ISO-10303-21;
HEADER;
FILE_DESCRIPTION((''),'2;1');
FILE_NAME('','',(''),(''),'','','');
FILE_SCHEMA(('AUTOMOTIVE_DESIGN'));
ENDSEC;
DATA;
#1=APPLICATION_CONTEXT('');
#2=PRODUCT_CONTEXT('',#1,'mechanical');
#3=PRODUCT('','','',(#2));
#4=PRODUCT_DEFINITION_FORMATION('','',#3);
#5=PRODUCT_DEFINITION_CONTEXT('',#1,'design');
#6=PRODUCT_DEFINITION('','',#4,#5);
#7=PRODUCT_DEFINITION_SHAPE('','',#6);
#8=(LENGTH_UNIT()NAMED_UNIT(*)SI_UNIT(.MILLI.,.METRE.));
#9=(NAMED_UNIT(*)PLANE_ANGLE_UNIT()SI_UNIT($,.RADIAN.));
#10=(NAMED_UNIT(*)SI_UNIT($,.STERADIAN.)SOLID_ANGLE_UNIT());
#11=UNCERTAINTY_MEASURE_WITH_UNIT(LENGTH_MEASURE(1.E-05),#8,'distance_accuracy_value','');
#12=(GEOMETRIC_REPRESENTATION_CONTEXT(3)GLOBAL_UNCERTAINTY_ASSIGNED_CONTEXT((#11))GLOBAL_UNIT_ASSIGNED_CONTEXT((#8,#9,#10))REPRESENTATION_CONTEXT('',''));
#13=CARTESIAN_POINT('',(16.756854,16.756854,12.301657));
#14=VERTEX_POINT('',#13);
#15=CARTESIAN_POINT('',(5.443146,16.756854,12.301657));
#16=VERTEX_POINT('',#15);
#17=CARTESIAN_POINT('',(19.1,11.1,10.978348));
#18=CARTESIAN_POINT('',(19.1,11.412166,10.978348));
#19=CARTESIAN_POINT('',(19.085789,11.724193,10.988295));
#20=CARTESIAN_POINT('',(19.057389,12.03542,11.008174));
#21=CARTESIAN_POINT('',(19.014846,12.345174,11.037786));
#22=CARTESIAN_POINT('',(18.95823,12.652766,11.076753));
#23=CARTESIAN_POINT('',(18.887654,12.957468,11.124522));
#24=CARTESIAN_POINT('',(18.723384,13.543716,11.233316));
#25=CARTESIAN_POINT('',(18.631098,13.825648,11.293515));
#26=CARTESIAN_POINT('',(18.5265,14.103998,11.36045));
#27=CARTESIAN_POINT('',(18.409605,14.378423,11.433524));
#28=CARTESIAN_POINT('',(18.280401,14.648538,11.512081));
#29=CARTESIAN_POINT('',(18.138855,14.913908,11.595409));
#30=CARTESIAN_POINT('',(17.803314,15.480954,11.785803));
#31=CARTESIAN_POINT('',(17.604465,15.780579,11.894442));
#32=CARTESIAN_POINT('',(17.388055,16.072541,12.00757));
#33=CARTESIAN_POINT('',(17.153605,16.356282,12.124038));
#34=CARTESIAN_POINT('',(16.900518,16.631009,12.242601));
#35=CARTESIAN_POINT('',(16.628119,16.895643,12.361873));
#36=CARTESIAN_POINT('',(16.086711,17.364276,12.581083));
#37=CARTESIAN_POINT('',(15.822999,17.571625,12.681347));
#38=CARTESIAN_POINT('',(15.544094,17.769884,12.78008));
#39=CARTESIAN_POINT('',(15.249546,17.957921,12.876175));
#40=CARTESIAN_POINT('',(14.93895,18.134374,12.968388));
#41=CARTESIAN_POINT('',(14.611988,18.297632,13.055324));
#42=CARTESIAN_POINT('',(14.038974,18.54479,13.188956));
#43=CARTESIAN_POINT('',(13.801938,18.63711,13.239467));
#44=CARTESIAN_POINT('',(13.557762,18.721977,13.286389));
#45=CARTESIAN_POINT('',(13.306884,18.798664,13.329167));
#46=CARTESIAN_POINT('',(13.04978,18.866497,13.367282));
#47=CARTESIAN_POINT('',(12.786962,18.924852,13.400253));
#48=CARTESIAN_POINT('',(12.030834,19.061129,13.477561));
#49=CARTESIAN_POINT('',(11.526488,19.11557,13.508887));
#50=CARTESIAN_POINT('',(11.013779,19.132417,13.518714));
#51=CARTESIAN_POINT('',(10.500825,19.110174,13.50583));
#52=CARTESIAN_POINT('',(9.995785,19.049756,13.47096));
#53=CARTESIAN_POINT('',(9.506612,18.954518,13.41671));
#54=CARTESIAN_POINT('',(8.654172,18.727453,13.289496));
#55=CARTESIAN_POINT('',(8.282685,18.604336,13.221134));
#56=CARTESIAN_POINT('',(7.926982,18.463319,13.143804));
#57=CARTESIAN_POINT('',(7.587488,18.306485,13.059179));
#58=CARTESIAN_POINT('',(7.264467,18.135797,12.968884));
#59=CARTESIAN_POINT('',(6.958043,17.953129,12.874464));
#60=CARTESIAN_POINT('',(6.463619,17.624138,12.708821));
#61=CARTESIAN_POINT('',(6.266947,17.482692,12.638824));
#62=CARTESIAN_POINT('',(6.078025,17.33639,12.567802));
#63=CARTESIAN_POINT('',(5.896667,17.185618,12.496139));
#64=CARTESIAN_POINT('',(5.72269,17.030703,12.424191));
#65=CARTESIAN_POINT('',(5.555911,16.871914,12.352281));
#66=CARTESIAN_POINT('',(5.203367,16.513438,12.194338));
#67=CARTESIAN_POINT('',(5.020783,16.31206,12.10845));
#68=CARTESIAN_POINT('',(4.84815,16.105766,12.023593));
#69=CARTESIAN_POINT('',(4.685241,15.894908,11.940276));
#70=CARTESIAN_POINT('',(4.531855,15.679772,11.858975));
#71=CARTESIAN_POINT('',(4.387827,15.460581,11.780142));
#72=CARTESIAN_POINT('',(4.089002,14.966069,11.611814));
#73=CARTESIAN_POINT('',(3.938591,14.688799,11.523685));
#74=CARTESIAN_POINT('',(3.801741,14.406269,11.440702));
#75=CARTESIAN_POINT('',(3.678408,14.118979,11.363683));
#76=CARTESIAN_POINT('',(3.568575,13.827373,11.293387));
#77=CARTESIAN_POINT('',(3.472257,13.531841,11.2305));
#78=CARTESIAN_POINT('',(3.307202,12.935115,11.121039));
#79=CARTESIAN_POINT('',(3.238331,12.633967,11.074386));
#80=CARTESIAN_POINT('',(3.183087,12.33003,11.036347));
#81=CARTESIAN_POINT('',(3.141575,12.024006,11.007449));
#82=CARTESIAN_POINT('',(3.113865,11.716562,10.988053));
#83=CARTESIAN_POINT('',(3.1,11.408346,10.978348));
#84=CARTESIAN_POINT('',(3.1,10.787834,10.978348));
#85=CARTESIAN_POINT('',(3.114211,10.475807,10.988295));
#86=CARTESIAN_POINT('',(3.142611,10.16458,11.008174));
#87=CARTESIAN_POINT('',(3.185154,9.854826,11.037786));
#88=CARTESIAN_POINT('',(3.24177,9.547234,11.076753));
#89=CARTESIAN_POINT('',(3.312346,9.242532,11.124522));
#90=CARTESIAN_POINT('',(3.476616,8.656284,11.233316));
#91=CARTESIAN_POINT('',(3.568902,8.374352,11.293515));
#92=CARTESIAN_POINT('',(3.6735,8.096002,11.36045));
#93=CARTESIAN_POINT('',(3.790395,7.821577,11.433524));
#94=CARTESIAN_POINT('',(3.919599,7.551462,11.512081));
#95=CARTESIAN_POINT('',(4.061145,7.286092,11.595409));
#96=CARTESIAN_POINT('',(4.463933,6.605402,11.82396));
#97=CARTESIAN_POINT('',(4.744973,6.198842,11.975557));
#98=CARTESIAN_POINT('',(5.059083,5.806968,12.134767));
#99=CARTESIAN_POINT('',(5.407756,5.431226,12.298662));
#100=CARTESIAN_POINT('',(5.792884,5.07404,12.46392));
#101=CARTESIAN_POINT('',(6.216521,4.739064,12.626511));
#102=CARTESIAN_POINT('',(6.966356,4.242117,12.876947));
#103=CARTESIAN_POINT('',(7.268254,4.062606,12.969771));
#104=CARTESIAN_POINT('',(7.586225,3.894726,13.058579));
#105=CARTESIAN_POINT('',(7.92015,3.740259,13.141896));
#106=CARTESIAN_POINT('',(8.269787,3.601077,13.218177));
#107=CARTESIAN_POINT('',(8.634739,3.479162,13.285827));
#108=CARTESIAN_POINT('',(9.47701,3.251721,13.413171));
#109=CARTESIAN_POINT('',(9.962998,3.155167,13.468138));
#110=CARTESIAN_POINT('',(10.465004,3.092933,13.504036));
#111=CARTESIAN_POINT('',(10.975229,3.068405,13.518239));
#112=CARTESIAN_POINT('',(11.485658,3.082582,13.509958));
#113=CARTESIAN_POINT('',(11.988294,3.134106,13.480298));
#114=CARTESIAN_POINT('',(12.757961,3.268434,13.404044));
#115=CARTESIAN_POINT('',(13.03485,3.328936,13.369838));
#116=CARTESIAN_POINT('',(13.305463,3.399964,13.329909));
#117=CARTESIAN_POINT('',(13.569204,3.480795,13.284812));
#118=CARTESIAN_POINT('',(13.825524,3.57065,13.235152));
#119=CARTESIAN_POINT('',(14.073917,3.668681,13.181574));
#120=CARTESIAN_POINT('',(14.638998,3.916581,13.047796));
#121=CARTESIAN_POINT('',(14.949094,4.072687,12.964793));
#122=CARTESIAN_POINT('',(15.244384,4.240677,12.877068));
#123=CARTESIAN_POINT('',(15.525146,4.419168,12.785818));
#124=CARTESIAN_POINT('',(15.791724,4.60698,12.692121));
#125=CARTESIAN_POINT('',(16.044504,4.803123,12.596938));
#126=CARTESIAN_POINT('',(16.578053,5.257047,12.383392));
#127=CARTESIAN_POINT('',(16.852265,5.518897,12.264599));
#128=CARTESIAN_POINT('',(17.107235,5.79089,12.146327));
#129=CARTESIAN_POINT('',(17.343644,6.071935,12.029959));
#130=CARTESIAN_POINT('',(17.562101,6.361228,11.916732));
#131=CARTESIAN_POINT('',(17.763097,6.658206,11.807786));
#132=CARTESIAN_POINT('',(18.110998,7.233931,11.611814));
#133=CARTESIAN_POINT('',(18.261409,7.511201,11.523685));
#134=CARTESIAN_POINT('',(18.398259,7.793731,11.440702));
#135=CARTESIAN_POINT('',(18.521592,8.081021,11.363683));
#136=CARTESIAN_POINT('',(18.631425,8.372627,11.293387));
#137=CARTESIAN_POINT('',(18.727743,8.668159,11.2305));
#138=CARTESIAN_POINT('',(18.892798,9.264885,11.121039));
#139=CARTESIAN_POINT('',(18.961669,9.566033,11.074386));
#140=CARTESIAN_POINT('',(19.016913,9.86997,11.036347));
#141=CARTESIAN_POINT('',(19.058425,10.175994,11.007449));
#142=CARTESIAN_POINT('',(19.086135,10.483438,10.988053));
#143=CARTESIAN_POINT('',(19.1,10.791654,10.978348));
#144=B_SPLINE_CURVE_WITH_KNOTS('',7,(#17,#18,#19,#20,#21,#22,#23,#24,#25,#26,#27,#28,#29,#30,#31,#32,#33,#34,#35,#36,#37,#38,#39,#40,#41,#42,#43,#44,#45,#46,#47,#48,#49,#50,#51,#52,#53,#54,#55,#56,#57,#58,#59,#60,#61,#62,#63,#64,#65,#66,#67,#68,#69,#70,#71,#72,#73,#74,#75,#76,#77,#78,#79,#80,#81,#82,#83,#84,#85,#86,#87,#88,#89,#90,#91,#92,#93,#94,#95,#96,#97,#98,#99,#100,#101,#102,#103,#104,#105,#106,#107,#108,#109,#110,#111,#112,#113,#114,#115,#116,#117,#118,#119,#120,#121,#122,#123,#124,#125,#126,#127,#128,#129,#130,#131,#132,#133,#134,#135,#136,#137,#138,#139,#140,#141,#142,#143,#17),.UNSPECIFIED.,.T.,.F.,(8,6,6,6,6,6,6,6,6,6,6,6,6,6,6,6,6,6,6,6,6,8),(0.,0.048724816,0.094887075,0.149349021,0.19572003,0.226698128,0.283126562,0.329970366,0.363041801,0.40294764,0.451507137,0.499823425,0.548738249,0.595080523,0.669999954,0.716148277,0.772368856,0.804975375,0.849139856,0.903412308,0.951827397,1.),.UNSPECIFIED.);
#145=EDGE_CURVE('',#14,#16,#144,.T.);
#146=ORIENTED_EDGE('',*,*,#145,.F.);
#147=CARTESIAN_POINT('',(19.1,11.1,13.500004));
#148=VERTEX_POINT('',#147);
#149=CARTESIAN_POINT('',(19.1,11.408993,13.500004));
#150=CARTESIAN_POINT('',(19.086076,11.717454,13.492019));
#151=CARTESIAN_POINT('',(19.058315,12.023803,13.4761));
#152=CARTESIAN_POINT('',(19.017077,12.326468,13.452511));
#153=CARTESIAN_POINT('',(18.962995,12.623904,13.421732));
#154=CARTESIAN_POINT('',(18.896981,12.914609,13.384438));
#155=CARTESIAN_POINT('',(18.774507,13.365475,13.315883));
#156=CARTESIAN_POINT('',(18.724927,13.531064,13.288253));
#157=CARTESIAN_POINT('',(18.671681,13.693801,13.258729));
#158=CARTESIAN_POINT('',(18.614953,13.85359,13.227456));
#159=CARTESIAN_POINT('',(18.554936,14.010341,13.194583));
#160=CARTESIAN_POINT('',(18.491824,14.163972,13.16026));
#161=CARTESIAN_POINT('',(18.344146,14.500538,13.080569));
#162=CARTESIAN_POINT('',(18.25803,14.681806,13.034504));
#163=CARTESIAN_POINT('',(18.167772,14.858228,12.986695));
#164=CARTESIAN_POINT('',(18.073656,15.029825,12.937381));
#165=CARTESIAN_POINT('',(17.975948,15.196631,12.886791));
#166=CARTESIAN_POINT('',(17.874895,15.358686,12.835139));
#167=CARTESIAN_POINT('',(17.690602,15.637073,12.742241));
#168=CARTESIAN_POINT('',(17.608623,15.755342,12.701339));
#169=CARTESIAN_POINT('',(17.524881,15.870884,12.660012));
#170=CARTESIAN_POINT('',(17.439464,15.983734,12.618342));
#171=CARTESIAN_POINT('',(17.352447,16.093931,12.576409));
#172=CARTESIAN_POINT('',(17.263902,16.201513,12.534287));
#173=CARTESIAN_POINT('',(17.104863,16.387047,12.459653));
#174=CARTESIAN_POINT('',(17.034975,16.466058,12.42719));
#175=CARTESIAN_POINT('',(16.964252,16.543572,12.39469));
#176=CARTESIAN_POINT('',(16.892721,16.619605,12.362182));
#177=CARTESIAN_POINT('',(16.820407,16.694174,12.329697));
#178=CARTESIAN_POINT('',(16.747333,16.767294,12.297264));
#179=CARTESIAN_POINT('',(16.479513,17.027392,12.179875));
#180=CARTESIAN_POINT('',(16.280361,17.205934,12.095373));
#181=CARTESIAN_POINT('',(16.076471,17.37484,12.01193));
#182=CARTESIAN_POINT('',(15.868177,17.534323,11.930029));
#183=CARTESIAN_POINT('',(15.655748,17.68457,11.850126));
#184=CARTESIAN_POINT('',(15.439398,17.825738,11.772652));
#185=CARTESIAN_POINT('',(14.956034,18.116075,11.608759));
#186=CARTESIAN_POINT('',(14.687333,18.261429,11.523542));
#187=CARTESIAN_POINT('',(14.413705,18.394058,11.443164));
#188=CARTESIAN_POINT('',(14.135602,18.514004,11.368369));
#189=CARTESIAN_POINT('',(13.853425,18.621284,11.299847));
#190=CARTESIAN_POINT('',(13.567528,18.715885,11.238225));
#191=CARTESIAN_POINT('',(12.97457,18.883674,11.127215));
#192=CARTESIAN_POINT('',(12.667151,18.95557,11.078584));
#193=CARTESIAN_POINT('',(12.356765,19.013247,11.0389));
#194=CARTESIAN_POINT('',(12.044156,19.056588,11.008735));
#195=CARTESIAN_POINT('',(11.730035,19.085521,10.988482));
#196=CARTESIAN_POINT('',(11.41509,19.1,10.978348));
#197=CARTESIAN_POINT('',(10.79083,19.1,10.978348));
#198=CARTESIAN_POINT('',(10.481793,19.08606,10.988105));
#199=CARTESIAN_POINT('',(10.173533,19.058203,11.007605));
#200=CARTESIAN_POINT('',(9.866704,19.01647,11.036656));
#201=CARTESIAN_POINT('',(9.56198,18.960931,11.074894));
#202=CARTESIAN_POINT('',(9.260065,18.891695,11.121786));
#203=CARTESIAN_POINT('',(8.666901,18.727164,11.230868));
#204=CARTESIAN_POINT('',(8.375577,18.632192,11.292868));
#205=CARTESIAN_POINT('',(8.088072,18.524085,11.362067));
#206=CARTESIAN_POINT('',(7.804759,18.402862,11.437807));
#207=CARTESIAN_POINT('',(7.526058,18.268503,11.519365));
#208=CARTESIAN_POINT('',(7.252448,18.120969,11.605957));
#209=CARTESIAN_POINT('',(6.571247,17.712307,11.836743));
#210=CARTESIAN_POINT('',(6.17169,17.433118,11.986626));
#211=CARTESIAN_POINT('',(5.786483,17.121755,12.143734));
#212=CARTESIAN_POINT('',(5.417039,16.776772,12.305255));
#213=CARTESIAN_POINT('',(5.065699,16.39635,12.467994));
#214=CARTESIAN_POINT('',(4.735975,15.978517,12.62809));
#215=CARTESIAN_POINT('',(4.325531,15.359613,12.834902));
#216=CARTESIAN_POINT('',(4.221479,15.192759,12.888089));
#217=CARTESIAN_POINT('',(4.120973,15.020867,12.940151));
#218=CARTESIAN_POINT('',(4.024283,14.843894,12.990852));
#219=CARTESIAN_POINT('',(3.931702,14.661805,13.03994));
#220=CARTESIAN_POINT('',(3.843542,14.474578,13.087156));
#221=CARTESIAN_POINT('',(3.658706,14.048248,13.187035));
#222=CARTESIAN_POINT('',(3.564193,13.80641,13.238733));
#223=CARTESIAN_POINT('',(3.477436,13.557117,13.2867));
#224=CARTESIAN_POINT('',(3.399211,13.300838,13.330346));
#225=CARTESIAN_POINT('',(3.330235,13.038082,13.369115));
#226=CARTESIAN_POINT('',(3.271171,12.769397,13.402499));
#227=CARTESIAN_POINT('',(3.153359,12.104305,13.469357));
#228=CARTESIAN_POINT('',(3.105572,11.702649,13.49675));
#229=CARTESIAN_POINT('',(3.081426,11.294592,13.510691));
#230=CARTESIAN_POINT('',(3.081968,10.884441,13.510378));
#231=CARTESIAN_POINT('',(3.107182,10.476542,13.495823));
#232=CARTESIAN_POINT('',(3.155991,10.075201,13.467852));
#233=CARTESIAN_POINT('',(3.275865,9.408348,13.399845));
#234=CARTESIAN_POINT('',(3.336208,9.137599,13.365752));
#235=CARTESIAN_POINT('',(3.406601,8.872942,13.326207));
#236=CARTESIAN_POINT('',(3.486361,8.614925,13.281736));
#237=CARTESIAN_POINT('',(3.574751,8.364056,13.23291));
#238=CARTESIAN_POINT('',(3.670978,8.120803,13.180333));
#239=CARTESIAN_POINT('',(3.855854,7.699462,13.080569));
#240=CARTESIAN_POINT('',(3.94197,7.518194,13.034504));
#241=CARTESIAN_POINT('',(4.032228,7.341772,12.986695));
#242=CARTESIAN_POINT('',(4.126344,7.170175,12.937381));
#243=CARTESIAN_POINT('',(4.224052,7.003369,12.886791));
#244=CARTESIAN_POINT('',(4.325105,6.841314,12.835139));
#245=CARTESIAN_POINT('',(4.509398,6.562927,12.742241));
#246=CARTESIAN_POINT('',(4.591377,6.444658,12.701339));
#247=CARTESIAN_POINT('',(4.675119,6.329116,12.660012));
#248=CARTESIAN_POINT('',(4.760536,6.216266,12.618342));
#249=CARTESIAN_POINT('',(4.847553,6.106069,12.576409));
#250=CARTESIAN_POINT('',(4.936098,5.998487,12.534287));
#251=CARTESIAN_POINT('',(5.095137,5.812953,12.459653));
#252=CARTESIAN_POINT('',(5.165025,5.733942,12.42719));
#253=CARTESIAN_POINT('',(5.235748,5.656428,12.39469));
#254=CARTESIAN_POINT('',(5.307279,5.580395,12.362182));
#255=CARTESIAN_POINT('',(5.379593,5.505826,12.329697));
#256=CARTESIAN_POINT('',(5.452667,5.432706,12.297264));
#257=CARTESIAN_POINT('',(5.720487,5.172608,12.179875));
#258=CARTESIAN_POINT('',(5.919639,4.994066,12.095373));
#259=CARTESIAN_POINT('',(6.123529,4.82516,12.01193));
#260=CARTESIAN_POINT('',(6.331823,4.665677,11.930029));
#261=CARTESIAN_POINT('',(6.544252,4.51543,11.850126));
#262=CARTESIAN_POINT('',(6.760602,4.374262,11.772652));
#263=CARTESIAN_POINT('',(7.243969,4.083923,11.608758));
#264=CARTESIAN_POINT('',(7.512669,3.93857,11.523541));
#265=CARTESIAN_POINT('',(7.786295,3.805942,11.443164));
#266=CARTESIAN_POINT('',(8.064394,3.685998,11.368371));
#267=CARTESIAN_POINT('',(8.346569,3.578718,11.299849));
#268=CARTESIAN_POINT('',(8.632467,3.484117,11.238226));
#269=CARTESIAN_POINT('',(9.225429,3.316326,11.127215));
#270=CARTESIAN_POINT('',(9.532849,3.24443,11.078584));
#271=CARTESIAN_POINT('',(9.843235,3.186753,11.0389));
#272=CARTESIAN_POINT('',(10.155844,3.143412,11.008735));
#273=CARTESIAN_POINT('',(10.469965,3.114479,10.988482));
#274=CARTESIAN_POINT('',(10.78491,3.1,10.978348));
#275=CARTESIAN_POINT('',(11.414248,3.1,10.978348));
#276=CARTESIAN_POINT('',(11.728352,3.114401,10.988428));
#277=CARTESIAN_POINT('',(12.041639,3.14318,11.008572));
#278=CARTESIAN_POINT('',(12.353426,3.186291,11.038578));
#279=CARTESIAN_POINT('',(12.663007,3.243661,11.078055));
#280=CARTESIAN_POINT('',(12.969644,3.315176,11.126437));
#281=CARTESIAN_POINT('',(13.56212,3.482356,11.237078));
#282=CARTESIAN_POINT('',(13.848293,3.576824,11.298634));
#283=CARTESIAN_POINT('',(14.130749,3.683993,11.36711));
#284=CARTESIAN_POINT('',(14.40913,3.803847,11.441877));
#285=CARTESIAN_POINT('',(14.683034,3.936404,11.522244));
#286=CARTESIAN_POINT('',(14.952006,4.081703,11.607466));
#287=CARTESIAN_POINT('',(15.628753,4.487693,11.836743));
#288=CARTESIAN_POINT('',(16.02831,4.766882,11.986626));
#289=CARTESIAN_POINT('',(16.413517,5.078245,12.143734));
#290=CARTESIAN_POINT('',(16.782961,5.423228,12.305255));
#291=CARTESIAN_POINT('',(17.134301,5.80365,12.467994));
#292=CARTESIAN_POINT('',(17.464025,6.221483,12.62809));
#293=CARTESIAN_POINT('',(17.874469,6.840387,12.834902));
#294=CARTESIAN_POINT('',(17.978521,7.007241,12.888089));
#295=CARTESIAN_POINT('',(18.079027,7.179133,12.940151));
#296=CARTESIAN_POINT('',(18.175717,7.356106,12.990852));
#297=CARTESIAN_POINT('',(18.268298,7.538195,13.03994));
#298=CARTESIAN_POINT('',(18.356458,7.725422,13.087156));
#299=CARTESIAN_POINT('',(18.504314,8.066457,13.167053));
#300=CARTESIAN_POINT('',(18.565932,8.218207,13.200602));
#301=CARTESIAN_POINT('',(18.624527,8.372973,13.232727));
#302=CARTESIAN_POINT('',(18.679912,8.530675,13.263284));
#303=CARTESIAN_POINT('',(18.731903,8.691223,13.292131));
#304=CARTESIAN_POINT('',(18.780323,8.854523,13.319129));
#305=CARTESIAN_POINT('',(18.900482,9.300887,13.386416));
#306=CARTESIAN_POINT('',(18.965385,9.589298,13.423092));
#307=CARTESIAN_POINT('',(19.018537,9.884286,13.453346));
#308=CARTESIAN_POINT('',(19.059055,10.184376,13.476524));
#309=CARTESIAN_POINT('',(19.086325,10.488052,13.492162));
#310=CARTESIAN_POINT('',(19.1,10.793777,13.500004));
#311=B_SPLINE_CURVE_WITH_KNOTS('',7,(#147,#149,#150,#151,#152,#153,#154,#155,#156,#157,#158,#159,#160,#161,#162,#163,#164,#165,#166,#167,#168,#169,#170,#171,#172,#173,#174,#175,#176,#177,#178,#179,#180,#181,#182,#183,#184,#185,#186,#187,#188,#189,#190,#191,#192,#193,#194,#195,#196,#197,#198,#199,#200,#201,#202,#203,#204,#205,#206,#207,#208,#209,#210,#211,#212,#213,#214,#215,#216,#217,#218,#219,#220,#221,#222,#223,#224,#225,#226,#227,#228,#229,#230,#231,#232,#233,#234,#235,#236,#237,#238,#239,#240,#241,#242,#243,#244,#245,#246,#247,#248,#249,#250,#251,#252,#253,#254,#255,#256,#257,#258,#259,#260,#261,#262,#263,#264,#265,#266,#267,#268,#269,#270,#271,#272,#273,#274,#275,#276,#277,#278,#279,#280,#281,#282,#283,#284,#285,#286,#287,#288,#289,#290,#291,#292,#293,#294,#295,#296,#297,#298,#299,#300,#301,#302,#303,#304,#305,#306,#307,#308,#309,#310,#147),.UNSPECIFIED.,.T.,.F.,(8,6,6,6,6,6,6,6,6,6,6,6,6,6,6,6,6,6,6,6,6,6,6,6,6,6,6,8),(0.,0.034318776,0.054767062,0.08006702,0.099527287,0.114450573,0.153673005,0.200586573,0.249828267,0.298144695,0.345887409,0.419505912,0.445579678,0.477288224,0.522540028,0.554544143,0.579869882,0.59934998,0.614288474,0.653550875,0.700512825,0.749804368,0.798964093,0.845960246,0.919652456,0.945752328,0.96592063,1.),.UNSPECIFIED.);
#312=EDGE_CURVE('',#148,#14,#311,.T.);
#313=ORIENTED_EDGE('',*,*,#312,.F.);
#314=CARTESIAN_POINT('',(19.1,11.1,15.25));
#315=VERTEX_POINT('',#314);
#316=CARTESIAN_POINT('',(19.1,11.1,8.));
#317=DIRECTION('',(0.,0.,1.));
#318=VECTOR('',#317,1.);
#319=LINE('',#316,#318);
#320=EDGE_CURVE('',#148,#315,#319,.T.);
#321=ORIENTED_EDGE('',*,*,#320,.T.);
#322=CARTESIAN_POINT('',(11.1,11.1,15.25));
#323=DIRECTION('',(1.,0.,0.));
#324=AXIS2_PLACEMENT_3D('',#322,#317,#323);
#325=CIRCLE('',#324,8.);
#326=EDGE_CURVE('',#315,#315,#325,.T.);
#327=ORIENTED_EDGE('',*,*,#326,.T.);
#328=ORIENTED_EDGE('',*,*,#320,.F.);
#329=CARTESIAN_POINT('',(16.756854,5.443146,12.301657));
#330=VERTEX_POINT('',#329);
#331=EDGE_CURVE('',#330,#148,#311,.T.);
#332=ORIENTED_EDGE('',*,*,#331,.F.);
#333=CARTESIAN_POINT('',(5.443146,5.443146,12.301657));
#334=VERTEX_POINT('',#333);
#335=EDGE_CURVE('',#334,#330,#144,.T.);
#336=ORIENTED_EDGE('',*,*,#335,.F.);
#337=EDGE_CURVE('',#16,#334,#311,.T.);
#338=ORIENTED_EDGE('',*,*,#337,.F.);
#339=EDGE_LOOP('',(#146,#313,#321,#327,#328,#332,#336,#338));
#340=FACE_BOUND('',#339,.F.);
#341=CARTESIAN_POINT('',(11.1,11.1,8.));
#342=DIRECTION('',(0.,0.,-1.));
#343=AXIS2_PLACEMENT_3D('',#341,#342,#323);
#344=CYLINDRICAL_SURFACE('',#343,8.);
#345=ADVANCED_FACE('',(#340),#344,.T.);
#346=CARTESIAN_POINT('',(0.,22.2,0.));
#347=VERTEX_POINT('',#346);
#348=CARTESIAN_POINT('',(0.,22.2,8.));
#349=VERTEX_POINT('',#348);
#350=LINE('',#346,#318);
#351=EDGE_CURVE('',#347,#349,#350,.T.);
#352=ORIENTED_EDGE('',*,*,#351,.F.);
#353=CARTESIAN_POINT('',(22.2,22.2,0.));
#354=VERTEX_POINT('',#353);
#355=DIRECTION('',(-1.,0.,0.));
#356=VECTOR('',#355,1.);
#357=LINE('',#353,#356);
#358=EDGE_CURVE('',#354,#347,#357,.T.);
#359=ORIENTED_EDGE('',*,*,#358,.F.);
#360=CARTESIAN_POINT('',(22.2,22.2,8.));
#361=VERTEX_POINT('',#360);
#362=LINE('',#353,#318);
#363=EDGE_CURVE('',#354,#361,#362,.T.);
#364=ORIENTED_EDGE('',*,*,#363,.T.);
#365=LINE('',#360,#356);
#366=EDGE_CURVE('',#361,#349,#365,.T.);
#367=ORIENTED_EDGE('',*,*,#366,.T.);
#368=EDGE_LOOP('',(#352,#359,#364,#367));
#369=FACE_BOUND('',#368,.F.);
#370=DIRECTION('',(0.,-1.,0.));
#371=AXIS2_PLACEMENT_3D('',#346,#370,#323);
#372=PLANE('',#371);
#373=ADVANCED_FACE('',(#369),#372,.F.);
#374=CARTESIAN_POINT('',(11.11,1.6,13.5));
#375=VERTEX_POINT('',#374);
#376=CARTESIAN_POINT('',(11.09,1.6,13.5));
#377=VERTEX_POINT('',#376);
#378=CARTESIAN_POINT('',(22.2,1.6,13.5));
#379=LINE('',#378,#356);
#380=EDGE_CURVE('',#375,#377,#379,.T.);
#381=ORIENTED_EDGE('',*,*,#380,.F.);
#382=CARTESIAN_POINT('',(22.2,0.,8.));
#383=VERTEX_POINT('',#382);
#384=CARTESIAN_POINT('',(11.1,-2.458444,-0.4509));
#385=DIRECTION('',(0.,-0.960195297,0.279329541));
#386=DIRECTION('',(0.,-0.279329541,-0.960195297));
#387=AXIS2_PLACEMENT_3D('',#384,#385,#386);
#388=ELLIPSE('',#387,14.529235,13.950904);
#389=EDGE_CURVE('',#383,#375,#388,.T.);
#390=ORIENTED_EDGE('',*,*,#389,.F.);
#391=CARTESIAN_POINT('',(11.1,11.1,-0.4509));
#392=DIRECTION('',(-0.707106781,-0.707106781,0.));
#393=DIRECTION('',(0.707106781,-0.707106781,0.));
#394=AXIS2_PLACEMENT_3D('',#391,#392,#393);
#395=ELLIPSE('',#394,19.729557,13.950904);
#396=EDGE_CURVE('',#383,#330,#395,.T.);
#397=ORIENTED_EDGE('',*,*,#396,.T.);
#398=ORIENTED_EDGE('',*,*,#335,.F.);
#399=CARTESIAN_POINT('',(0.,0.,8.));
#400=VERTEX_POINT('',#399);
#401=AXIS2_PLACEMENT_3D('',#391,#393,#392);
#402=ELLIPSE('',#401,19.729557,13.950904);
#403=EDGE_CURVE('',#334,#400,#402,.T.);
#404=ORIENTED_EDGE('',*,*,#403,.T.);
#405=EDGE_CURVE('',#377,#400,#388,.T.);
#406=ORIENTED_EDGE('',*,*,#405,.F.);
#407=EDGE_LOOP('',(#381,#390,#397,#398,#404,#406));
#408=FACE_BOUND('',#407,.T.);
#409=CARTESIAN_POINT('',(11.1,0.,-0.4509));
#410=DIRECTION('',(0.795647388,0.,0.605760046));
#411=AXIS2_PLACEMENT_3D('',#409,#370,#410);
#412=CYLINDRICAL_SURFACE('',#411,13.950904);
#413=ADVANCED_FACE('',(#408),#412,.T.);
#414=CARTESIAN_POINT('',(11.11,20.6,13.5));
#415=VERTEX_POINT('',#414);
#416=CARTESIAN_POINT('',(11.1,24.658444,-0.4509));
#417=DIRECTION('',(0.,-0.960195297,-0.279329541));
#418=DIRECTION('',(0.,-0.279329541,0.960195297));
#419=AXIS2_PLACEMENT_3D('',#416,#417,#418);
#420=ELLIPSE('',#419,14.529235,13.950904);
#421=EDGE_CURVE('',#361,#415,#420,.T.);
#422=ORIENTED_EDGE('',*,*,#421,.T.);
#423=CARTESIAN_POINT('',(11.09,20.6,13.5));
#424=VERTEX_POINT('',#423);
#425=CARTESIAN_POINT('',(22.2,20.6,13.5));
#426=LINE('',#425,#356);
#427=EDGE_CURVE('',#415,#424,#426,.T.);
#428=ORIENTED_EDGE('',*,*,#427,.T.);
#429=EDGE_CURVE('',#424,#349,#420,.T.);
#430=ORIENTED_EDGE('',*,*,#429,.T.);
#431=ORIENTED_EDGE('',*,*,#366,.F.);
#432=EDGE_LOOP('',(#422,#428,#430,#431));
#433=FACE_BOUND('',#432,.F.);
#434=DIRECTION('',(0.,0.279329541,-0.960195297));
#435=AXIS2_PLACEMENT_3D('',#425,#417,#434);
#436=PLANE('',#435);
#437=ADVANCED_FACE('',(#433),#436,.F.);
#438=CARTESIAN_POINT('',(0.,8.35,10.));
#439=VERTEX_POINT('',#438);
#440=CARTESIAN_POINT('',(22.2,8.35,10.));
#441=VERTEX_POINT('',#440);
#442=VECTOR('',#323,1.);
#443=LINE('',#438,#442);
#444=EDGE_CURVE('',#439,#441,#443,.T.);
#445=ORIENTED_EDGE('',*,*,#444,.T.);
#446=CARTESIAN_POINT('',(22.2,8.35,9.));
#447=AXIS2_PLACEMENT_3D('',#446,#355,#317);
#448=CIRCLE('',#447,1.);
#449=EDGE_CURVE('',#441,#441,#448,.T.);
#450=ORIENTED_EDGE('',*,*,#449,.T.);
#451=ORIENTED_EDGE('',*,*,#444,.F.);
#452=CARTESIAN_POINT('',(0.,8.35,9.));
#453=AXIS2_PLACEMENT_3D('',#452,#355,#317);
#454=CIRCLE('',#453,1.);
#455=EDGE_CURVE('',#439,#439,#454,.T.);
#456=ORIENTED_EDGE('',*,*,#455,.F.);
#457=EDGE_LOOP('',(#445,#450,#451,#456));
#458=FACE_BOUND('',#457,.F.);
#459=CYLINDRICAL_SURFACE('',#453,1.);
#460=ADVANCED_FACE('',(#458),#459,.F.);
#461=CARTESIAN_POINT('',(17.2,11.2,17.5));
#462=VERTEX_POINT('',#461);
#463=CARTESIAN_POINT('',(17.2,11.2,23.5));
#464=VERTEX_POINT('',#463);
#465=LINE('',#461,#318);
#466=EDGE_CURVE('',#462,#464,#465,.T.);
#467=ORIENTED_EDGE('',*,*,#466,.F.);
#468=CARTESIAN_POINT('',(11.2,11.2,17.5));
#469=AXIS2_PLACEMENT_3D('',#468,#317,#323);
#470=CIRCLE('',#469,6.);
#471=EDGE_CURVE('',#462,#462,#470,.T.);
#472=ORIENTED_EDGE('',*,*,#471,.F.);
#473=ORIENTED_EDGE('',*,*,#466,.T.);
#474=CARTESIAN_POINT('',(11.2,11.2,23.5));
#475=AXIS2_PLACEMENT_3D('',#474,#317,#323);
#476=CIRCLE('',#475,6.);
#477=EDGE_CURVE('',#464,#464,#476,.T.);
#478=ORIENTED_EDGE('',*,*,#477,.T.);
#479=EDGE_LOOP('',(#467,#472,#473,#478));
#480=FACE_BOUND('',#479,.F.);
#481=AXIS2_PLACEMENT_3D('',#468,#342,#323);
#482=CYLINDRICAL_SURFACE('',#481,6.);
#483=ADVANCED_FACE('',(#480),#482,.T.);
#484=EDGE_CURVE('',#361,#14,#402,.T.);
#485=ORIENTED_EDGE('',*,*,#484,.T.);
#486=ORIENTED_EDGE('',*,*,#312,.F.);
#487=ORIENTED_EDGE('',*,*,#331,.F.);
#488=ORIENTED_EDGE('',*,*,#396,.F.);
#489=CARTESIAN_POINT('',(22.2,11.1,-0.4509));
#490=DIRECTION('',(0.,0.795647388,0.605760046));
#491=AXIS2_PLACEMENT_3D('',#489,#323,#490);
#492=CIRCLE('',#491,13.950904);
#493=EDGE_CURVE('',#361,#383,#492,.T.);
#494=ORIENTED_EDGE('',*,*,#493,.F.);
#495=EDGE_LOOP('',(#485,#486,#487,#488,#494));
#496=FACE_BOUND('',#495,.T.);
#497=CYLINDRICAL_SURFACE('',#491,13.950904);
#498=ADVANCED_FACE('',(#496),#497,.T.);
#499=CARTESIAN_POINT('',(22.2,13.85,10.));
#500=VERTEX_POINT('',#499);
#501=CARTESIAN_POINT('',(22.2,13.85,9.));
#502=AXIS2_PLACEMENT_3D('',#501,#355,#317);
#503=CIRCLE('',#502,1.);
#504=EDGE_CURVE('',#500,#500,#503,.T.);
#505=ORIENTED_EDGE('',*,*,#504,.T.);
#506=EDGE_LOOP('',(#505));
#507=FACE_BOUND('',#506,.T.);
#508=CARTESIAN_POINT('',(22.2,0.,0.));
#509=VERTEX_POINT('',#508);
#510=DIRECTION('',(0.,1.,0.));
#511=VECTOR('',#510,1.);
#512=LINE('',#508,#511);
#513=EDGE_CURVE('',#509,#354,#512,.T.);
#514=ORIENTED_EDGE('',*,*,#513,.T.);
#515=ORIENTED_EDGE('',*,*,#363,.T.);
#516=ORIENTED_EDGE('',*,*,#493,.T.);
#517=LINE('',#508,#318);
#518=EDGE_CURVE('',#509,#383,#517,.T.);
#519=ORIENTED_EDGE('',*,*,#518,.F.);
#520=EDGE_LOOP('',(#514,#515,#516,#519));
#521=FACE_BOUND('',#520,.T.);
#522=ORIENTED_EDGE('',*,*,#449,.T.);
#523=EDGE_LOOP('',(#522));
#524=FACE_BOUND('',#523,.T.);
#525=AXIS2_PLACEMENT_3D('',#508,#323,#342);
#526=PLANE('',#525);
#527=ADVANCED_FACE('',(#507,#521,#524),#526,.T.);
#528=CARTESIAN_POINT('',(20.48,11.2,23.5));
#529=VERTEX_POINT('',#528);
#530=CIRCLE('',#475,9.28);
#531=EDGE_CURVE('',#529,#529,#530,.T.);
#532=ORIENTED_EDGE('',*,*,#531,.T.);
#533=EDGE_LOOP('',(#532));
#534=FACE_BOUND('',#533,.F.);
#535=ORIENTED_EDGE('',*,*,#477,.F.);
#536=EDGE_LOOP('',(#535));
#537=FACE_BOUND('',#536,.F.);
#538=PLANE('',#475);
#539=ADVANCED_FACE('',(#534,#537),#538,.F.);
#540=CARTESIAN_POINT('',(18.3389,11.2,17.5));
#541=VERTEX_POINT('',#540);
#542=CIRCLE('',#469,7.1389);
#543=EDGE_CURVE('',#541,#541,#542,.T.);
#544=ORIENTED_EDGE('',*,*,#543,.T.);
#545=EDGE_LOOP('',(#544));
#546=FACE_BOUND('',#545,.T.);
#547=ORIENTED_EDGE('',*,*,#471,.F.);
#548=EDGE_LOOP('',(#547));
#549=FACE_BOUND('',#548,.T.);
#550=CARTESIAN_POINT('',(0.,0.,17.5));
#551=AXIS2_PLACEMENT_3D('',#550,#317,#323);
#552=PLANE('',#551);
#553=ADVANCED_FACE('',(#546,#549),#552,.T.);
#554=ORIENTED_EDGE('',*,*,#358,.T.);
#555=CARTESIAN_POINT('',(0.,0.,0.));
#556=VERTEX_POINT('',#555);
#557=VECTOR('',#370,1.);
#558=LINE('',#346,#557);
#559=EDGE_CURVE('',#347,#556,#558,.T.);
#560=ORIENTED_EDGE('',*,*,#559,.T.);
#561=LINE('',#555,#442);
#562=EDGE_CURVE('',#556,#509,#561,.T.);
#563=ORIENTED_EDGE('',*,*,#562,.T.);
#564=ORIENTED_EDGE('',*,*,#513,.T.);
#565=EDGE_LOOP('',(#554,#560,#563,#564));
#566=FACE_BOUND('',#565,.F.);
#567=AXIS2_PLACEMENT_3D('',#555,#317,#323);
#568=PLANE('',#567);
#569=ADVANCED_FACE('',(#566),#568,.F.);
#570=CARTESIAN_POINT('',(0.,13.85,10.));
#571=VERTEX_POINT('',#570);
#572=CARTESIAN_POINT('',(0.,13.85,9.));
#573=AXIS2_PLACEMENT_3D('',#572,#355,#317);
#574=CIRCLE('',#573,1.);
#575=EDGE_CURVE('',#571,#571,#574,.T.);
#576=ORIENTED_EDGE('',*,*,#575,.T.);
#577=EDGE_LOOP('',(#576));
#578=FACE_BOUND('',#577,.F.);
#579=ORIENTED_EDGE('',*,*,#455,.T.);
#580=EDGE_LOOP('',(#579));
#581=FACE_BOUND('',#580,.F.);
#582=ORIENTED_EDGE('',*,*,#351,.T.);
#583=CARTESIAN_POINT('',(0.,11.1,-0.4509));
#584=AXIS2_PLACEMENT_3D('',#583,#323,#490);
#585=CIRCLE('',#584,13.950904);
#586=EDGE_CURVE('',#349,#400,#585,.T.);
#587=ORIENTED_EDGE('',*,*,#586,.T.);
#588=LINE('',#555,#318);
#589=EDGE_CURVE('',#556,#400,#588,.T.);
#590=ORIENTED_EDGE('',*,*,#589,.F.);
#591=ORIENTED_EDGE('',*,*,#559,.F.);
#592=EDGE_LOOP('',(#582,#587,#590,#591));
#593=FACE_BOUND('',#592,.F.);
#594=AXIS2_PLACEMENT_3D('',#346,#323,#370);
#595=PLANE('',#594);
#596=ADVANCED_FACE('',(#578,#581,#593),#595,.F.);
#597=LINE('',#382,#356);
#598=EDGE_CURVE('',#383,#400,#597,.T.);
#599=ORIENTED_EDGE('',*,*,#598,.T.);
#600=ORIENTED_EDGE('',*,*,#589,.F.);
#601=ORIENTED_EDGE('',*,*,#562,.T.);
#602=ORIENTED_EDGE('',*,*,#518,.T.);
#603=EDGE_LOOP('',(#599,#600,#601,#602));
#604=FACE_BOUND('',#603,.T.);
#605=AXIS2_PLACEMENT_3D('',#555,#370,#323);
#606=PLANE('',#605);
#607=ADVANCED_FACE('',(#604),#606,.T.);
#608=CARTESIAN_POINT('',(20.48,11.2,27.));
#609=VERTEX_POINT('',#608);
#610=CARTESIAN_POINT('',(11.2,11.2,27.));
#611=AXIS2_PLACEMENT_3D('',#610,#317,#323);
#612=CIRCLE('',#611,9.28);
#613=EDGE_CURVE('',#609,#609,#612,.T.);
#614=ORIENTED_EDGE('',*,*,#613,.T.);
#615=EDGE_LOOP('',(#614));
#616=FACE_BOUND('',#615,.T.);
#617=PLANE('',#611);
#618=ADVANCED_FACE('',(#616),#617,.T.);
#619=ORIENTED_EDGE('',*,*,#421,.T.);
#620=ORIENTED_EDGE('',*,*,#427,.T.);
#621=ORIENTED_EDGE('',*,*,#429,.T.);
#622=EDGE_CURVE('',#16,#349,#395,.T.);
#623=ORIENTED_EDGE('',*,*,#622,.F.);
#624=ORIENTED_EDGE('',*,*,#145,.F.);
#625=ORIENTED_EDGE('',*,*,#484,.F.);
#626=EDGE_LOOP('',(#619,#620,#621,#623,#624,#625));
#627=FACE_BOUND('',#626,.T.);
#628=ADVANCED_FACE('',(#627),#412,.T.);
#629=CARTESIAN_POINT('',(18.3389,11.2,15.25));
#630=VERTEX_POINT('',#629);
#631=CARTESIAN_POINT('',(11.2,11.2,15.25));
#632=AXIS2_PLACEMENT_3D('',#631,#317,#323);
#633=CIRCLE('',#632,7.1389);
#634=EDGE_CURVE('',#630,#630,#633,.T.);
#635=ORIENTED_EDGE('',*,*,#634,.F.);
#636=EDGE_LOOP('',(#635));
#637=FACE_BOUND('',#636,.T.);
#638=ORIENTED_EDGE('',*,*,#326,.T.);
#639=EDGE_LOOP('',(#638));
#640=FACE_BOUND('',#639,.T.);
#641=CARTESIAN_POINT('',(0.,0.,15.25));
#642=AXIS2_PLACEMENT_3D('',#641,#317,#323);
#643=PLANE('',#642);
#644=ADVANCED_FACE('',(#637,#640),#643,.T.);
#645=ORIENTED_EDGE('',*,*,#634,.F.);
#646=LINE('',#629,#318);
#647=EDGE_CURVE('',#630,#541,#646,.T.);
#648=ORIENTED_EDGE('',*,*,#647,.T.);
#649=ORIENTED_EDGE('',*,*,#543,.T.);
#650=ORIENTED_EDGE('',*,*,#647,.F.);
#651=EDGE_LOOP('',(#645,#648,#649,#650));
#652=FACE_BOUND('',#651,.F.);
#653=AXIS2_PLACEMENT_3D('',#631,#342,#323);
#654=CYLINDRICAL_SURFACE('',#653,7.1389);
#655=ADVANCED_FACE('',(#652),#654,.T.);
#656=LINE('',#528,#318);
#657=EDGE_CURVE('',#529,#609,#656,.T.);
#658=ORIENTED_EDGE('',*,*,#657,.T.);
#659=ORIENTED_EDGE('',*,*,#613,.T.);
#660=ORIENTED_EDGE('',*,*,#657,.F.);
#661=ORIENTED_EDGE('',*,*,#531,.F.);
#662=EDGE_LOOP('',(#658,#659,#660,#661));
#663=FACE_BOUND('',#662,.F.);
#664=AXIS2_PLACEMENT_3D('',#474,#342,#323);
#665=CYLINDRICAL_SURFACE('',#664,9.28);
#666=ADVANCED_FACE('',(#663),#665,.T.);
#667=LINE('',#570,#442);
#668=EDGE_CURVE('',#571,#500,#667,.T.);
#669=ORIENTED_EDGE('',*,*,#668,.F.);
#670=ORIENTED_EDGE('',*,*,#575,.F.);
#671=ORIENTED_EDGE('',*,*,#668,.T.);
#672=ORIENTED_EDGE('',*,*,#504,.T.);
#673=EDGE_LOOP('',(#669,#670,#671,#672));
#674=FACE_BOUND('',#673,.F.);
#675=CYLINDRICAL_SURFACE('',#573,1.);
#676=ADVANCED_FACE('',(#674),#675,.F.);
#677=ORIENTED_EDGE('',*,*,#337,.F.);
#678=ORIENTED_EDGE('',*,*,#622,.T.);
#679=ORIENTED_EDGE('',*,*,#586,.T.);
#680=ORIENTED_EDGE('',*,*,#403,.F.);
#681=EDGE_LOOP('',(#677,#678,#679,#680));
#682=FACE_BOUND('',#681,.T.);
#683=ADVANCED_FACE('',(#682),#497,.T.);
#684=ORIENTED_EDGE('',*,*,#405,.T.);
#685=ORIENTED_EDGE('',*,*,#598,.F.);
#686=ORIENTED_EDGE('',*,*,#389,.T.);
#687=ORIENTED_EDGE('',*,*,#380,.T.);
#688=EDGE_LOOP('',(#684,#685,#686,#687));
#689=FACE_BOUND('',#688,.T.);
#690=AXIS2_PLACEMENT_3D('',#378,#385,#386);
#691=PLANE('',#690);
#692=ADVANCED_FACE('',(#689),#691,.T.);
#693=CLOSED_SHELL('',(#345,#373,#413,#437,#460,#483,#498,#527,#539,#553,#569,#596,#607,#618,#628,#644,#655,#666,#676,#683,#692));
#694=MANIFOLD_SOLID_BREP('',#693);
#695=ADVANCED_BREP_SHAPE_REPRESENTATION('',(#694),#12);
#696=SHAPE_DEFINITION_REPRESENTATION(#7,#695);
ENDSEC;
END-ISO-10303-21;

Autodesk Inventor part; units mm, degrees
ref_plane "XZ Plane" through (0, 0, 0) normal (0, 1, 0) x (-1, 0, 0)
sketch "Sketch1" plane through (0, 0, 0) normal (0, 0, 1) x (1, 0, 0)
  line L0 (0, 0) -> (22.2, 0)
  line L1 (22.2, 0) -> (22.2, 22.2)
  line L2 (22.2, 22.2) -> (0, 22.2)
  line L3 (0, 22.2) -> (0, 0)
  dimension "d0" = 22.2
  dimension "d1" = 22.2
extrude "Extrusion1" add sketch "Sketch1" along normal blind 8
sketch "Sketch2" plane through (0, 0, 8) normal (0, 0, 1) x (1, 0, 0)
  line L0 (0, 0) -> (22.2, 0) construction
  line L1 (22.2, 0) -> (22.2, 22.2) construction
  line L2 (22.2, 22.2) -> (0, 22.2) construction
  line L3 (0, 22.2) -> (0, 0) construction
  line L4 (22.2, 22.2) -> (0, 22.2) construction
  line L5 (11.1, 22.2) -> (11.1, 0) construction
  line L6 (0, 0) -> (22.2, 0) construction
  circle A0 centre (11.1, 11.1) radius 8
  dimension "d4" = 16
extrude "Extrusion2" add sketch "Sketch2" along normal blind 7.25
sketch "Sketch3" plane through (22.2, 0, 0) normal (1, 0, 0) x (0, 0, -1)
  line L0 (-15.25, 19.1) -> (-15.25, 3.1) construction
  line L1 (-15.25, 11.1) -> (0, 11.1) construction
  line L2 (0, 22.2) -> (0, 0) construction
sketch "Sketch5" plane through (0, 0, 0) normal (0, -1, 0) x (1, 0, 0)
  line L0 (0, 0) -> (22.2, 0) construction
  line L1 (22.2, 0) -> (22.2, 8) construction
  line L2 (0, 8) -> (22.2, 8) construction
  line L3 (0, 0) -> (0, 8) construction
  line L4 (0, 8) -> (22.2, 8) construction
  line L5 (11.1, 8) -> (11.1, 13.5) construction
  arc A0 (22.2, 8) -> (0, 8) centre (11.1, -0.4509) ccw
  line L6 (0, 8) -> (22.2, 8)
  dimension "d9" = 5.5
extrude "Extrusion4" add sketch "Sketch5" against normal up to surface (22.2 mm away)
sketch "Sketch6" plane through (22.2, 0, 0) normal (1, 0, 0) x (0, 0, -1)
  line L0 (0, 0) -> (0, 22.2) construction
  line L1 (0, 22.2) -> (-8, 22.2) construction
  line L2 (-8, 0) -> (-8, 22.2) construction
  line L3 (0, 0) -> (-8, 0) construction
  line L4 (-8, 0) -> (-8, 22.2) construction
  line L5 (-8, 11.1) -> (-13.5, 11.1) construction
  line L6 (0, 22.2) -> (-8, 22.2) projected
  line L7 (0, 0) -> (-8, 0) projected
  arc A0 (-8, 22.2) -> (-8, 0) centre (0.4509, 11.1) ccw
  line L8 (-8, 22.2) -> (-8, 0)
  dimension "d12" = 5.5
extrude "Extrusion5" add sketch "Sketch6" against normal up to surface (22.2 mm away)
sketch "Sketch7" plane through (22.2, 0, 0) normal (1, 0, 0) x (0, 0, -1)
  line L0 (0, 0) -> (0, 22.2) construction
  line L1 (0, 22.2) -> (-8, 22.2) construction
  arc A0 (-8, 22.2) -> (-8, 0) centre (0.4509, 11.1) ccw construction
  line L2 (0, 0) -> (-8, 0) construction
  arc A1 (-8, 22.2) -> (-8, 0) centre (0.4509, 11.1) ccw construction
  line L3 (-13.5, 11.1) -> (0, 11.1) construction
  line L4 (0, 22.2) -> (0, 0) construction
  line L5 (-13.5, 11.1) -> (-13.5, 20.6) construction
  line L6 (-13.5, 11.1) -> (-13.5, 1.6) construction
  line L7 (0, 0) -> (-8, 0) projected
  line L8 (-13.5, 1.6) -> (-8, 0)
  line L9 (-8, 0) -> (-13.5, 0)
  line L10 (0, 0) -> (-8, 0) projected
  line L11 (-13.5, 0) -> (-13.5, 1.6)
  line L12 (0, 22.2) -> (-8, 22.2) projected
  line L13 (-13.5, 20.6) -> (-8, 22.2)
  line L14 (-8, 22.2) -> (-13.5, 22.2)
  line L15 (-13.5, 22.2) -> (-13.5, 20.6)
  dimension "d15" = 9.5
extrude "Extrusion6" cut sketch "Sketch7" against normal up to surface (22.2 mm away)
sketch "Sketch9" plane through (0, 0, 15.25) normal (0, 0, 1) x (1, 0, 0)
  arc A0 (17.7247, 6.5709) -> (17.7247, 15.8291) centre (11.2, 11.2) ccw projected
  arc A1 (17.7247, 15.8291) -> (16.9166, 16.7965) centre (11.2, 11.2) ccw projected
  arc A2 (16.9166, 16.7965) -> (16.7965, 16.9166) centre (11.2, 11.2) ccw projected
  arc A3 (16.7965, 16.9166) -> (15.8291, 17.7247) centre (11.2, 11.2) ccw projected
  arc A4 (15.8291, 17.7247) -> (6.5709, 17.7247) centre (11.2, 11.2) ccw projected
  arc A5 (6.5709, 17.7247) -> (5.6035, 16.9166) centre (11.2, 11.2) ccw projected
  arc A6 (5.6035, 16.9166) -> (5.4834, 16.7965) centre (11.2, 11.2) ccw projected
  arc A7 (5.4834, 16.7965) -> (4.6753, 15.8291) centre (11.2, 11.2) ccw projected
  arc A8 (4.6753, 15.8291) -> (4.6753, 6.5709) centre (11.2, 11.2) ccw projected
  arc A9 (4.6753, 6.5709) -> (5.4834, 5.6035) centre (11.2, 11.2) ccw projected
  arc A10 (5.4834, 5.6035) -> (5.6035, 5.4834) centre (11.2, 11.2) ccw projected
  arc A11 (5.6035, 5.4834) -> (6.5709, 4.6753) centre (11.2, 11.2) ccw projected
  arc A12 (6.5709, 4.6753) -> (15.8291, 4.6753) centre (11.2, 11.2) ccw projected
  arc A13 (15.8291, 4.6753) -> (16.7965, 5.4834) centre (11.2, 11.2) ccw projected
  arc A14 (16.7965, 5.4834) -> (16.9166, 5.6035) centre (11.2, 11.2) ccw projected
  arc A15 (16.9166, 5.6035) -> (17.7247, 6.5709) centre (11.2, 11.2) ccw projected
  circle A16 centre (11.2, 11.2) radius 7.1389
  point P0 (0, 0)
extrude "Extrusion8" add sketch "Sketch9" along normal blind 2.25 contours A16
sketch "Sketch10" plane through (11.2, 11.2, 17.5) normal (0, 0, 1) x (1, 0, 0)
  circle A0 centre (0, 0) radius 8 projected
  circle A1 centre (0, 0) radius 6
  circle A2 centre (0, 0) radius 7
  point P0 (-11.2, -11.2)
  dimension "d25" = 2
  dimension "d36" = 1
extrude "Extrusion9" add sketch "Sketch10" along normal blind 6 contours A1
sketch "Sketch11" plane through (11.2, 11.2, 23.5) normal (0, 0, 1) x (1, 0, 0)
  circle A0 centre (0, 0) radius 6 projected
  circle A1 centre (0, 0) radius 9.28
  point P0 (-11.2, -11.2)
  dimension "d28" = 18.56
extrude "Extrusion10" add sketch "Sketch11" along normal blind 3.5 contours A0 | A1
sketch "Sketch12" plane through (22.2, 0, 0) normal (1, 0, 0) x (0, 0, -1)
  line L0 (-27, 20.48) -> (-27, 1.92) construction
  line L1 (-27, 11.2) -> (0, 11.1) construction
  line L2 (0, 0) -> (0, 22.2) construction
  dimension "d31" = 27.0002
ref_plane "Work Plane2" through (11.2, 0, 0) normal (1, 0, 0) x (0, 1, 0)
sketch "Sketch17" plane through (0, 0, 0) normal (-1, 0, 0) x (0, 0, 1)
  line L0 (0, 22.2) -> (0, 0) construction
  line L1 (0, 0) -> (8, 0) construction
  arc A0 (8, 0) -> (8, 22.2) centre (-0.4509, 11.1) ccw construction
  line L2 (0, 22.2) -> (8, 22.2) construction
  line L3 (0, 22.2) -> (0, 0) construction
  line L4 (0, 11.1) -> (9, 11.1) construction
  line L5 (9, 11.1) -> (9, 8.35) construction
  line L6 (17.5, 17.2) -> (23.5, 17.2) construction
  line L7 (9, 11.1) -> (9, 13.85) construction
  circle A1 centre (9, 8.35) radius 1
  circle A2 centre (9, 13.85) radius 1
  dimension "d48" = 9
  dimension "d49" = 2.75
  dimension "d50" = 2
  dimension "d52" = 2.75
  dimension "d53" = 2
extrude "Extrusion12" cut sketch "Sketch17" against normal through all
ref_plane "Work Plane4" through (11.1, 0, 0) normal (1, 0, 0) x (0, 0, -1)
sketch "Sketch18" plane through (11.1, 0, 0) normal (1, 0, 0) x (0, 0, -1)
  line L0 (0, 0) -> (0, 22.2) projected
  line L1 (0, 11.1) -> (-43.4569, 11.1)
properties part number "mini predator dummy camera"
